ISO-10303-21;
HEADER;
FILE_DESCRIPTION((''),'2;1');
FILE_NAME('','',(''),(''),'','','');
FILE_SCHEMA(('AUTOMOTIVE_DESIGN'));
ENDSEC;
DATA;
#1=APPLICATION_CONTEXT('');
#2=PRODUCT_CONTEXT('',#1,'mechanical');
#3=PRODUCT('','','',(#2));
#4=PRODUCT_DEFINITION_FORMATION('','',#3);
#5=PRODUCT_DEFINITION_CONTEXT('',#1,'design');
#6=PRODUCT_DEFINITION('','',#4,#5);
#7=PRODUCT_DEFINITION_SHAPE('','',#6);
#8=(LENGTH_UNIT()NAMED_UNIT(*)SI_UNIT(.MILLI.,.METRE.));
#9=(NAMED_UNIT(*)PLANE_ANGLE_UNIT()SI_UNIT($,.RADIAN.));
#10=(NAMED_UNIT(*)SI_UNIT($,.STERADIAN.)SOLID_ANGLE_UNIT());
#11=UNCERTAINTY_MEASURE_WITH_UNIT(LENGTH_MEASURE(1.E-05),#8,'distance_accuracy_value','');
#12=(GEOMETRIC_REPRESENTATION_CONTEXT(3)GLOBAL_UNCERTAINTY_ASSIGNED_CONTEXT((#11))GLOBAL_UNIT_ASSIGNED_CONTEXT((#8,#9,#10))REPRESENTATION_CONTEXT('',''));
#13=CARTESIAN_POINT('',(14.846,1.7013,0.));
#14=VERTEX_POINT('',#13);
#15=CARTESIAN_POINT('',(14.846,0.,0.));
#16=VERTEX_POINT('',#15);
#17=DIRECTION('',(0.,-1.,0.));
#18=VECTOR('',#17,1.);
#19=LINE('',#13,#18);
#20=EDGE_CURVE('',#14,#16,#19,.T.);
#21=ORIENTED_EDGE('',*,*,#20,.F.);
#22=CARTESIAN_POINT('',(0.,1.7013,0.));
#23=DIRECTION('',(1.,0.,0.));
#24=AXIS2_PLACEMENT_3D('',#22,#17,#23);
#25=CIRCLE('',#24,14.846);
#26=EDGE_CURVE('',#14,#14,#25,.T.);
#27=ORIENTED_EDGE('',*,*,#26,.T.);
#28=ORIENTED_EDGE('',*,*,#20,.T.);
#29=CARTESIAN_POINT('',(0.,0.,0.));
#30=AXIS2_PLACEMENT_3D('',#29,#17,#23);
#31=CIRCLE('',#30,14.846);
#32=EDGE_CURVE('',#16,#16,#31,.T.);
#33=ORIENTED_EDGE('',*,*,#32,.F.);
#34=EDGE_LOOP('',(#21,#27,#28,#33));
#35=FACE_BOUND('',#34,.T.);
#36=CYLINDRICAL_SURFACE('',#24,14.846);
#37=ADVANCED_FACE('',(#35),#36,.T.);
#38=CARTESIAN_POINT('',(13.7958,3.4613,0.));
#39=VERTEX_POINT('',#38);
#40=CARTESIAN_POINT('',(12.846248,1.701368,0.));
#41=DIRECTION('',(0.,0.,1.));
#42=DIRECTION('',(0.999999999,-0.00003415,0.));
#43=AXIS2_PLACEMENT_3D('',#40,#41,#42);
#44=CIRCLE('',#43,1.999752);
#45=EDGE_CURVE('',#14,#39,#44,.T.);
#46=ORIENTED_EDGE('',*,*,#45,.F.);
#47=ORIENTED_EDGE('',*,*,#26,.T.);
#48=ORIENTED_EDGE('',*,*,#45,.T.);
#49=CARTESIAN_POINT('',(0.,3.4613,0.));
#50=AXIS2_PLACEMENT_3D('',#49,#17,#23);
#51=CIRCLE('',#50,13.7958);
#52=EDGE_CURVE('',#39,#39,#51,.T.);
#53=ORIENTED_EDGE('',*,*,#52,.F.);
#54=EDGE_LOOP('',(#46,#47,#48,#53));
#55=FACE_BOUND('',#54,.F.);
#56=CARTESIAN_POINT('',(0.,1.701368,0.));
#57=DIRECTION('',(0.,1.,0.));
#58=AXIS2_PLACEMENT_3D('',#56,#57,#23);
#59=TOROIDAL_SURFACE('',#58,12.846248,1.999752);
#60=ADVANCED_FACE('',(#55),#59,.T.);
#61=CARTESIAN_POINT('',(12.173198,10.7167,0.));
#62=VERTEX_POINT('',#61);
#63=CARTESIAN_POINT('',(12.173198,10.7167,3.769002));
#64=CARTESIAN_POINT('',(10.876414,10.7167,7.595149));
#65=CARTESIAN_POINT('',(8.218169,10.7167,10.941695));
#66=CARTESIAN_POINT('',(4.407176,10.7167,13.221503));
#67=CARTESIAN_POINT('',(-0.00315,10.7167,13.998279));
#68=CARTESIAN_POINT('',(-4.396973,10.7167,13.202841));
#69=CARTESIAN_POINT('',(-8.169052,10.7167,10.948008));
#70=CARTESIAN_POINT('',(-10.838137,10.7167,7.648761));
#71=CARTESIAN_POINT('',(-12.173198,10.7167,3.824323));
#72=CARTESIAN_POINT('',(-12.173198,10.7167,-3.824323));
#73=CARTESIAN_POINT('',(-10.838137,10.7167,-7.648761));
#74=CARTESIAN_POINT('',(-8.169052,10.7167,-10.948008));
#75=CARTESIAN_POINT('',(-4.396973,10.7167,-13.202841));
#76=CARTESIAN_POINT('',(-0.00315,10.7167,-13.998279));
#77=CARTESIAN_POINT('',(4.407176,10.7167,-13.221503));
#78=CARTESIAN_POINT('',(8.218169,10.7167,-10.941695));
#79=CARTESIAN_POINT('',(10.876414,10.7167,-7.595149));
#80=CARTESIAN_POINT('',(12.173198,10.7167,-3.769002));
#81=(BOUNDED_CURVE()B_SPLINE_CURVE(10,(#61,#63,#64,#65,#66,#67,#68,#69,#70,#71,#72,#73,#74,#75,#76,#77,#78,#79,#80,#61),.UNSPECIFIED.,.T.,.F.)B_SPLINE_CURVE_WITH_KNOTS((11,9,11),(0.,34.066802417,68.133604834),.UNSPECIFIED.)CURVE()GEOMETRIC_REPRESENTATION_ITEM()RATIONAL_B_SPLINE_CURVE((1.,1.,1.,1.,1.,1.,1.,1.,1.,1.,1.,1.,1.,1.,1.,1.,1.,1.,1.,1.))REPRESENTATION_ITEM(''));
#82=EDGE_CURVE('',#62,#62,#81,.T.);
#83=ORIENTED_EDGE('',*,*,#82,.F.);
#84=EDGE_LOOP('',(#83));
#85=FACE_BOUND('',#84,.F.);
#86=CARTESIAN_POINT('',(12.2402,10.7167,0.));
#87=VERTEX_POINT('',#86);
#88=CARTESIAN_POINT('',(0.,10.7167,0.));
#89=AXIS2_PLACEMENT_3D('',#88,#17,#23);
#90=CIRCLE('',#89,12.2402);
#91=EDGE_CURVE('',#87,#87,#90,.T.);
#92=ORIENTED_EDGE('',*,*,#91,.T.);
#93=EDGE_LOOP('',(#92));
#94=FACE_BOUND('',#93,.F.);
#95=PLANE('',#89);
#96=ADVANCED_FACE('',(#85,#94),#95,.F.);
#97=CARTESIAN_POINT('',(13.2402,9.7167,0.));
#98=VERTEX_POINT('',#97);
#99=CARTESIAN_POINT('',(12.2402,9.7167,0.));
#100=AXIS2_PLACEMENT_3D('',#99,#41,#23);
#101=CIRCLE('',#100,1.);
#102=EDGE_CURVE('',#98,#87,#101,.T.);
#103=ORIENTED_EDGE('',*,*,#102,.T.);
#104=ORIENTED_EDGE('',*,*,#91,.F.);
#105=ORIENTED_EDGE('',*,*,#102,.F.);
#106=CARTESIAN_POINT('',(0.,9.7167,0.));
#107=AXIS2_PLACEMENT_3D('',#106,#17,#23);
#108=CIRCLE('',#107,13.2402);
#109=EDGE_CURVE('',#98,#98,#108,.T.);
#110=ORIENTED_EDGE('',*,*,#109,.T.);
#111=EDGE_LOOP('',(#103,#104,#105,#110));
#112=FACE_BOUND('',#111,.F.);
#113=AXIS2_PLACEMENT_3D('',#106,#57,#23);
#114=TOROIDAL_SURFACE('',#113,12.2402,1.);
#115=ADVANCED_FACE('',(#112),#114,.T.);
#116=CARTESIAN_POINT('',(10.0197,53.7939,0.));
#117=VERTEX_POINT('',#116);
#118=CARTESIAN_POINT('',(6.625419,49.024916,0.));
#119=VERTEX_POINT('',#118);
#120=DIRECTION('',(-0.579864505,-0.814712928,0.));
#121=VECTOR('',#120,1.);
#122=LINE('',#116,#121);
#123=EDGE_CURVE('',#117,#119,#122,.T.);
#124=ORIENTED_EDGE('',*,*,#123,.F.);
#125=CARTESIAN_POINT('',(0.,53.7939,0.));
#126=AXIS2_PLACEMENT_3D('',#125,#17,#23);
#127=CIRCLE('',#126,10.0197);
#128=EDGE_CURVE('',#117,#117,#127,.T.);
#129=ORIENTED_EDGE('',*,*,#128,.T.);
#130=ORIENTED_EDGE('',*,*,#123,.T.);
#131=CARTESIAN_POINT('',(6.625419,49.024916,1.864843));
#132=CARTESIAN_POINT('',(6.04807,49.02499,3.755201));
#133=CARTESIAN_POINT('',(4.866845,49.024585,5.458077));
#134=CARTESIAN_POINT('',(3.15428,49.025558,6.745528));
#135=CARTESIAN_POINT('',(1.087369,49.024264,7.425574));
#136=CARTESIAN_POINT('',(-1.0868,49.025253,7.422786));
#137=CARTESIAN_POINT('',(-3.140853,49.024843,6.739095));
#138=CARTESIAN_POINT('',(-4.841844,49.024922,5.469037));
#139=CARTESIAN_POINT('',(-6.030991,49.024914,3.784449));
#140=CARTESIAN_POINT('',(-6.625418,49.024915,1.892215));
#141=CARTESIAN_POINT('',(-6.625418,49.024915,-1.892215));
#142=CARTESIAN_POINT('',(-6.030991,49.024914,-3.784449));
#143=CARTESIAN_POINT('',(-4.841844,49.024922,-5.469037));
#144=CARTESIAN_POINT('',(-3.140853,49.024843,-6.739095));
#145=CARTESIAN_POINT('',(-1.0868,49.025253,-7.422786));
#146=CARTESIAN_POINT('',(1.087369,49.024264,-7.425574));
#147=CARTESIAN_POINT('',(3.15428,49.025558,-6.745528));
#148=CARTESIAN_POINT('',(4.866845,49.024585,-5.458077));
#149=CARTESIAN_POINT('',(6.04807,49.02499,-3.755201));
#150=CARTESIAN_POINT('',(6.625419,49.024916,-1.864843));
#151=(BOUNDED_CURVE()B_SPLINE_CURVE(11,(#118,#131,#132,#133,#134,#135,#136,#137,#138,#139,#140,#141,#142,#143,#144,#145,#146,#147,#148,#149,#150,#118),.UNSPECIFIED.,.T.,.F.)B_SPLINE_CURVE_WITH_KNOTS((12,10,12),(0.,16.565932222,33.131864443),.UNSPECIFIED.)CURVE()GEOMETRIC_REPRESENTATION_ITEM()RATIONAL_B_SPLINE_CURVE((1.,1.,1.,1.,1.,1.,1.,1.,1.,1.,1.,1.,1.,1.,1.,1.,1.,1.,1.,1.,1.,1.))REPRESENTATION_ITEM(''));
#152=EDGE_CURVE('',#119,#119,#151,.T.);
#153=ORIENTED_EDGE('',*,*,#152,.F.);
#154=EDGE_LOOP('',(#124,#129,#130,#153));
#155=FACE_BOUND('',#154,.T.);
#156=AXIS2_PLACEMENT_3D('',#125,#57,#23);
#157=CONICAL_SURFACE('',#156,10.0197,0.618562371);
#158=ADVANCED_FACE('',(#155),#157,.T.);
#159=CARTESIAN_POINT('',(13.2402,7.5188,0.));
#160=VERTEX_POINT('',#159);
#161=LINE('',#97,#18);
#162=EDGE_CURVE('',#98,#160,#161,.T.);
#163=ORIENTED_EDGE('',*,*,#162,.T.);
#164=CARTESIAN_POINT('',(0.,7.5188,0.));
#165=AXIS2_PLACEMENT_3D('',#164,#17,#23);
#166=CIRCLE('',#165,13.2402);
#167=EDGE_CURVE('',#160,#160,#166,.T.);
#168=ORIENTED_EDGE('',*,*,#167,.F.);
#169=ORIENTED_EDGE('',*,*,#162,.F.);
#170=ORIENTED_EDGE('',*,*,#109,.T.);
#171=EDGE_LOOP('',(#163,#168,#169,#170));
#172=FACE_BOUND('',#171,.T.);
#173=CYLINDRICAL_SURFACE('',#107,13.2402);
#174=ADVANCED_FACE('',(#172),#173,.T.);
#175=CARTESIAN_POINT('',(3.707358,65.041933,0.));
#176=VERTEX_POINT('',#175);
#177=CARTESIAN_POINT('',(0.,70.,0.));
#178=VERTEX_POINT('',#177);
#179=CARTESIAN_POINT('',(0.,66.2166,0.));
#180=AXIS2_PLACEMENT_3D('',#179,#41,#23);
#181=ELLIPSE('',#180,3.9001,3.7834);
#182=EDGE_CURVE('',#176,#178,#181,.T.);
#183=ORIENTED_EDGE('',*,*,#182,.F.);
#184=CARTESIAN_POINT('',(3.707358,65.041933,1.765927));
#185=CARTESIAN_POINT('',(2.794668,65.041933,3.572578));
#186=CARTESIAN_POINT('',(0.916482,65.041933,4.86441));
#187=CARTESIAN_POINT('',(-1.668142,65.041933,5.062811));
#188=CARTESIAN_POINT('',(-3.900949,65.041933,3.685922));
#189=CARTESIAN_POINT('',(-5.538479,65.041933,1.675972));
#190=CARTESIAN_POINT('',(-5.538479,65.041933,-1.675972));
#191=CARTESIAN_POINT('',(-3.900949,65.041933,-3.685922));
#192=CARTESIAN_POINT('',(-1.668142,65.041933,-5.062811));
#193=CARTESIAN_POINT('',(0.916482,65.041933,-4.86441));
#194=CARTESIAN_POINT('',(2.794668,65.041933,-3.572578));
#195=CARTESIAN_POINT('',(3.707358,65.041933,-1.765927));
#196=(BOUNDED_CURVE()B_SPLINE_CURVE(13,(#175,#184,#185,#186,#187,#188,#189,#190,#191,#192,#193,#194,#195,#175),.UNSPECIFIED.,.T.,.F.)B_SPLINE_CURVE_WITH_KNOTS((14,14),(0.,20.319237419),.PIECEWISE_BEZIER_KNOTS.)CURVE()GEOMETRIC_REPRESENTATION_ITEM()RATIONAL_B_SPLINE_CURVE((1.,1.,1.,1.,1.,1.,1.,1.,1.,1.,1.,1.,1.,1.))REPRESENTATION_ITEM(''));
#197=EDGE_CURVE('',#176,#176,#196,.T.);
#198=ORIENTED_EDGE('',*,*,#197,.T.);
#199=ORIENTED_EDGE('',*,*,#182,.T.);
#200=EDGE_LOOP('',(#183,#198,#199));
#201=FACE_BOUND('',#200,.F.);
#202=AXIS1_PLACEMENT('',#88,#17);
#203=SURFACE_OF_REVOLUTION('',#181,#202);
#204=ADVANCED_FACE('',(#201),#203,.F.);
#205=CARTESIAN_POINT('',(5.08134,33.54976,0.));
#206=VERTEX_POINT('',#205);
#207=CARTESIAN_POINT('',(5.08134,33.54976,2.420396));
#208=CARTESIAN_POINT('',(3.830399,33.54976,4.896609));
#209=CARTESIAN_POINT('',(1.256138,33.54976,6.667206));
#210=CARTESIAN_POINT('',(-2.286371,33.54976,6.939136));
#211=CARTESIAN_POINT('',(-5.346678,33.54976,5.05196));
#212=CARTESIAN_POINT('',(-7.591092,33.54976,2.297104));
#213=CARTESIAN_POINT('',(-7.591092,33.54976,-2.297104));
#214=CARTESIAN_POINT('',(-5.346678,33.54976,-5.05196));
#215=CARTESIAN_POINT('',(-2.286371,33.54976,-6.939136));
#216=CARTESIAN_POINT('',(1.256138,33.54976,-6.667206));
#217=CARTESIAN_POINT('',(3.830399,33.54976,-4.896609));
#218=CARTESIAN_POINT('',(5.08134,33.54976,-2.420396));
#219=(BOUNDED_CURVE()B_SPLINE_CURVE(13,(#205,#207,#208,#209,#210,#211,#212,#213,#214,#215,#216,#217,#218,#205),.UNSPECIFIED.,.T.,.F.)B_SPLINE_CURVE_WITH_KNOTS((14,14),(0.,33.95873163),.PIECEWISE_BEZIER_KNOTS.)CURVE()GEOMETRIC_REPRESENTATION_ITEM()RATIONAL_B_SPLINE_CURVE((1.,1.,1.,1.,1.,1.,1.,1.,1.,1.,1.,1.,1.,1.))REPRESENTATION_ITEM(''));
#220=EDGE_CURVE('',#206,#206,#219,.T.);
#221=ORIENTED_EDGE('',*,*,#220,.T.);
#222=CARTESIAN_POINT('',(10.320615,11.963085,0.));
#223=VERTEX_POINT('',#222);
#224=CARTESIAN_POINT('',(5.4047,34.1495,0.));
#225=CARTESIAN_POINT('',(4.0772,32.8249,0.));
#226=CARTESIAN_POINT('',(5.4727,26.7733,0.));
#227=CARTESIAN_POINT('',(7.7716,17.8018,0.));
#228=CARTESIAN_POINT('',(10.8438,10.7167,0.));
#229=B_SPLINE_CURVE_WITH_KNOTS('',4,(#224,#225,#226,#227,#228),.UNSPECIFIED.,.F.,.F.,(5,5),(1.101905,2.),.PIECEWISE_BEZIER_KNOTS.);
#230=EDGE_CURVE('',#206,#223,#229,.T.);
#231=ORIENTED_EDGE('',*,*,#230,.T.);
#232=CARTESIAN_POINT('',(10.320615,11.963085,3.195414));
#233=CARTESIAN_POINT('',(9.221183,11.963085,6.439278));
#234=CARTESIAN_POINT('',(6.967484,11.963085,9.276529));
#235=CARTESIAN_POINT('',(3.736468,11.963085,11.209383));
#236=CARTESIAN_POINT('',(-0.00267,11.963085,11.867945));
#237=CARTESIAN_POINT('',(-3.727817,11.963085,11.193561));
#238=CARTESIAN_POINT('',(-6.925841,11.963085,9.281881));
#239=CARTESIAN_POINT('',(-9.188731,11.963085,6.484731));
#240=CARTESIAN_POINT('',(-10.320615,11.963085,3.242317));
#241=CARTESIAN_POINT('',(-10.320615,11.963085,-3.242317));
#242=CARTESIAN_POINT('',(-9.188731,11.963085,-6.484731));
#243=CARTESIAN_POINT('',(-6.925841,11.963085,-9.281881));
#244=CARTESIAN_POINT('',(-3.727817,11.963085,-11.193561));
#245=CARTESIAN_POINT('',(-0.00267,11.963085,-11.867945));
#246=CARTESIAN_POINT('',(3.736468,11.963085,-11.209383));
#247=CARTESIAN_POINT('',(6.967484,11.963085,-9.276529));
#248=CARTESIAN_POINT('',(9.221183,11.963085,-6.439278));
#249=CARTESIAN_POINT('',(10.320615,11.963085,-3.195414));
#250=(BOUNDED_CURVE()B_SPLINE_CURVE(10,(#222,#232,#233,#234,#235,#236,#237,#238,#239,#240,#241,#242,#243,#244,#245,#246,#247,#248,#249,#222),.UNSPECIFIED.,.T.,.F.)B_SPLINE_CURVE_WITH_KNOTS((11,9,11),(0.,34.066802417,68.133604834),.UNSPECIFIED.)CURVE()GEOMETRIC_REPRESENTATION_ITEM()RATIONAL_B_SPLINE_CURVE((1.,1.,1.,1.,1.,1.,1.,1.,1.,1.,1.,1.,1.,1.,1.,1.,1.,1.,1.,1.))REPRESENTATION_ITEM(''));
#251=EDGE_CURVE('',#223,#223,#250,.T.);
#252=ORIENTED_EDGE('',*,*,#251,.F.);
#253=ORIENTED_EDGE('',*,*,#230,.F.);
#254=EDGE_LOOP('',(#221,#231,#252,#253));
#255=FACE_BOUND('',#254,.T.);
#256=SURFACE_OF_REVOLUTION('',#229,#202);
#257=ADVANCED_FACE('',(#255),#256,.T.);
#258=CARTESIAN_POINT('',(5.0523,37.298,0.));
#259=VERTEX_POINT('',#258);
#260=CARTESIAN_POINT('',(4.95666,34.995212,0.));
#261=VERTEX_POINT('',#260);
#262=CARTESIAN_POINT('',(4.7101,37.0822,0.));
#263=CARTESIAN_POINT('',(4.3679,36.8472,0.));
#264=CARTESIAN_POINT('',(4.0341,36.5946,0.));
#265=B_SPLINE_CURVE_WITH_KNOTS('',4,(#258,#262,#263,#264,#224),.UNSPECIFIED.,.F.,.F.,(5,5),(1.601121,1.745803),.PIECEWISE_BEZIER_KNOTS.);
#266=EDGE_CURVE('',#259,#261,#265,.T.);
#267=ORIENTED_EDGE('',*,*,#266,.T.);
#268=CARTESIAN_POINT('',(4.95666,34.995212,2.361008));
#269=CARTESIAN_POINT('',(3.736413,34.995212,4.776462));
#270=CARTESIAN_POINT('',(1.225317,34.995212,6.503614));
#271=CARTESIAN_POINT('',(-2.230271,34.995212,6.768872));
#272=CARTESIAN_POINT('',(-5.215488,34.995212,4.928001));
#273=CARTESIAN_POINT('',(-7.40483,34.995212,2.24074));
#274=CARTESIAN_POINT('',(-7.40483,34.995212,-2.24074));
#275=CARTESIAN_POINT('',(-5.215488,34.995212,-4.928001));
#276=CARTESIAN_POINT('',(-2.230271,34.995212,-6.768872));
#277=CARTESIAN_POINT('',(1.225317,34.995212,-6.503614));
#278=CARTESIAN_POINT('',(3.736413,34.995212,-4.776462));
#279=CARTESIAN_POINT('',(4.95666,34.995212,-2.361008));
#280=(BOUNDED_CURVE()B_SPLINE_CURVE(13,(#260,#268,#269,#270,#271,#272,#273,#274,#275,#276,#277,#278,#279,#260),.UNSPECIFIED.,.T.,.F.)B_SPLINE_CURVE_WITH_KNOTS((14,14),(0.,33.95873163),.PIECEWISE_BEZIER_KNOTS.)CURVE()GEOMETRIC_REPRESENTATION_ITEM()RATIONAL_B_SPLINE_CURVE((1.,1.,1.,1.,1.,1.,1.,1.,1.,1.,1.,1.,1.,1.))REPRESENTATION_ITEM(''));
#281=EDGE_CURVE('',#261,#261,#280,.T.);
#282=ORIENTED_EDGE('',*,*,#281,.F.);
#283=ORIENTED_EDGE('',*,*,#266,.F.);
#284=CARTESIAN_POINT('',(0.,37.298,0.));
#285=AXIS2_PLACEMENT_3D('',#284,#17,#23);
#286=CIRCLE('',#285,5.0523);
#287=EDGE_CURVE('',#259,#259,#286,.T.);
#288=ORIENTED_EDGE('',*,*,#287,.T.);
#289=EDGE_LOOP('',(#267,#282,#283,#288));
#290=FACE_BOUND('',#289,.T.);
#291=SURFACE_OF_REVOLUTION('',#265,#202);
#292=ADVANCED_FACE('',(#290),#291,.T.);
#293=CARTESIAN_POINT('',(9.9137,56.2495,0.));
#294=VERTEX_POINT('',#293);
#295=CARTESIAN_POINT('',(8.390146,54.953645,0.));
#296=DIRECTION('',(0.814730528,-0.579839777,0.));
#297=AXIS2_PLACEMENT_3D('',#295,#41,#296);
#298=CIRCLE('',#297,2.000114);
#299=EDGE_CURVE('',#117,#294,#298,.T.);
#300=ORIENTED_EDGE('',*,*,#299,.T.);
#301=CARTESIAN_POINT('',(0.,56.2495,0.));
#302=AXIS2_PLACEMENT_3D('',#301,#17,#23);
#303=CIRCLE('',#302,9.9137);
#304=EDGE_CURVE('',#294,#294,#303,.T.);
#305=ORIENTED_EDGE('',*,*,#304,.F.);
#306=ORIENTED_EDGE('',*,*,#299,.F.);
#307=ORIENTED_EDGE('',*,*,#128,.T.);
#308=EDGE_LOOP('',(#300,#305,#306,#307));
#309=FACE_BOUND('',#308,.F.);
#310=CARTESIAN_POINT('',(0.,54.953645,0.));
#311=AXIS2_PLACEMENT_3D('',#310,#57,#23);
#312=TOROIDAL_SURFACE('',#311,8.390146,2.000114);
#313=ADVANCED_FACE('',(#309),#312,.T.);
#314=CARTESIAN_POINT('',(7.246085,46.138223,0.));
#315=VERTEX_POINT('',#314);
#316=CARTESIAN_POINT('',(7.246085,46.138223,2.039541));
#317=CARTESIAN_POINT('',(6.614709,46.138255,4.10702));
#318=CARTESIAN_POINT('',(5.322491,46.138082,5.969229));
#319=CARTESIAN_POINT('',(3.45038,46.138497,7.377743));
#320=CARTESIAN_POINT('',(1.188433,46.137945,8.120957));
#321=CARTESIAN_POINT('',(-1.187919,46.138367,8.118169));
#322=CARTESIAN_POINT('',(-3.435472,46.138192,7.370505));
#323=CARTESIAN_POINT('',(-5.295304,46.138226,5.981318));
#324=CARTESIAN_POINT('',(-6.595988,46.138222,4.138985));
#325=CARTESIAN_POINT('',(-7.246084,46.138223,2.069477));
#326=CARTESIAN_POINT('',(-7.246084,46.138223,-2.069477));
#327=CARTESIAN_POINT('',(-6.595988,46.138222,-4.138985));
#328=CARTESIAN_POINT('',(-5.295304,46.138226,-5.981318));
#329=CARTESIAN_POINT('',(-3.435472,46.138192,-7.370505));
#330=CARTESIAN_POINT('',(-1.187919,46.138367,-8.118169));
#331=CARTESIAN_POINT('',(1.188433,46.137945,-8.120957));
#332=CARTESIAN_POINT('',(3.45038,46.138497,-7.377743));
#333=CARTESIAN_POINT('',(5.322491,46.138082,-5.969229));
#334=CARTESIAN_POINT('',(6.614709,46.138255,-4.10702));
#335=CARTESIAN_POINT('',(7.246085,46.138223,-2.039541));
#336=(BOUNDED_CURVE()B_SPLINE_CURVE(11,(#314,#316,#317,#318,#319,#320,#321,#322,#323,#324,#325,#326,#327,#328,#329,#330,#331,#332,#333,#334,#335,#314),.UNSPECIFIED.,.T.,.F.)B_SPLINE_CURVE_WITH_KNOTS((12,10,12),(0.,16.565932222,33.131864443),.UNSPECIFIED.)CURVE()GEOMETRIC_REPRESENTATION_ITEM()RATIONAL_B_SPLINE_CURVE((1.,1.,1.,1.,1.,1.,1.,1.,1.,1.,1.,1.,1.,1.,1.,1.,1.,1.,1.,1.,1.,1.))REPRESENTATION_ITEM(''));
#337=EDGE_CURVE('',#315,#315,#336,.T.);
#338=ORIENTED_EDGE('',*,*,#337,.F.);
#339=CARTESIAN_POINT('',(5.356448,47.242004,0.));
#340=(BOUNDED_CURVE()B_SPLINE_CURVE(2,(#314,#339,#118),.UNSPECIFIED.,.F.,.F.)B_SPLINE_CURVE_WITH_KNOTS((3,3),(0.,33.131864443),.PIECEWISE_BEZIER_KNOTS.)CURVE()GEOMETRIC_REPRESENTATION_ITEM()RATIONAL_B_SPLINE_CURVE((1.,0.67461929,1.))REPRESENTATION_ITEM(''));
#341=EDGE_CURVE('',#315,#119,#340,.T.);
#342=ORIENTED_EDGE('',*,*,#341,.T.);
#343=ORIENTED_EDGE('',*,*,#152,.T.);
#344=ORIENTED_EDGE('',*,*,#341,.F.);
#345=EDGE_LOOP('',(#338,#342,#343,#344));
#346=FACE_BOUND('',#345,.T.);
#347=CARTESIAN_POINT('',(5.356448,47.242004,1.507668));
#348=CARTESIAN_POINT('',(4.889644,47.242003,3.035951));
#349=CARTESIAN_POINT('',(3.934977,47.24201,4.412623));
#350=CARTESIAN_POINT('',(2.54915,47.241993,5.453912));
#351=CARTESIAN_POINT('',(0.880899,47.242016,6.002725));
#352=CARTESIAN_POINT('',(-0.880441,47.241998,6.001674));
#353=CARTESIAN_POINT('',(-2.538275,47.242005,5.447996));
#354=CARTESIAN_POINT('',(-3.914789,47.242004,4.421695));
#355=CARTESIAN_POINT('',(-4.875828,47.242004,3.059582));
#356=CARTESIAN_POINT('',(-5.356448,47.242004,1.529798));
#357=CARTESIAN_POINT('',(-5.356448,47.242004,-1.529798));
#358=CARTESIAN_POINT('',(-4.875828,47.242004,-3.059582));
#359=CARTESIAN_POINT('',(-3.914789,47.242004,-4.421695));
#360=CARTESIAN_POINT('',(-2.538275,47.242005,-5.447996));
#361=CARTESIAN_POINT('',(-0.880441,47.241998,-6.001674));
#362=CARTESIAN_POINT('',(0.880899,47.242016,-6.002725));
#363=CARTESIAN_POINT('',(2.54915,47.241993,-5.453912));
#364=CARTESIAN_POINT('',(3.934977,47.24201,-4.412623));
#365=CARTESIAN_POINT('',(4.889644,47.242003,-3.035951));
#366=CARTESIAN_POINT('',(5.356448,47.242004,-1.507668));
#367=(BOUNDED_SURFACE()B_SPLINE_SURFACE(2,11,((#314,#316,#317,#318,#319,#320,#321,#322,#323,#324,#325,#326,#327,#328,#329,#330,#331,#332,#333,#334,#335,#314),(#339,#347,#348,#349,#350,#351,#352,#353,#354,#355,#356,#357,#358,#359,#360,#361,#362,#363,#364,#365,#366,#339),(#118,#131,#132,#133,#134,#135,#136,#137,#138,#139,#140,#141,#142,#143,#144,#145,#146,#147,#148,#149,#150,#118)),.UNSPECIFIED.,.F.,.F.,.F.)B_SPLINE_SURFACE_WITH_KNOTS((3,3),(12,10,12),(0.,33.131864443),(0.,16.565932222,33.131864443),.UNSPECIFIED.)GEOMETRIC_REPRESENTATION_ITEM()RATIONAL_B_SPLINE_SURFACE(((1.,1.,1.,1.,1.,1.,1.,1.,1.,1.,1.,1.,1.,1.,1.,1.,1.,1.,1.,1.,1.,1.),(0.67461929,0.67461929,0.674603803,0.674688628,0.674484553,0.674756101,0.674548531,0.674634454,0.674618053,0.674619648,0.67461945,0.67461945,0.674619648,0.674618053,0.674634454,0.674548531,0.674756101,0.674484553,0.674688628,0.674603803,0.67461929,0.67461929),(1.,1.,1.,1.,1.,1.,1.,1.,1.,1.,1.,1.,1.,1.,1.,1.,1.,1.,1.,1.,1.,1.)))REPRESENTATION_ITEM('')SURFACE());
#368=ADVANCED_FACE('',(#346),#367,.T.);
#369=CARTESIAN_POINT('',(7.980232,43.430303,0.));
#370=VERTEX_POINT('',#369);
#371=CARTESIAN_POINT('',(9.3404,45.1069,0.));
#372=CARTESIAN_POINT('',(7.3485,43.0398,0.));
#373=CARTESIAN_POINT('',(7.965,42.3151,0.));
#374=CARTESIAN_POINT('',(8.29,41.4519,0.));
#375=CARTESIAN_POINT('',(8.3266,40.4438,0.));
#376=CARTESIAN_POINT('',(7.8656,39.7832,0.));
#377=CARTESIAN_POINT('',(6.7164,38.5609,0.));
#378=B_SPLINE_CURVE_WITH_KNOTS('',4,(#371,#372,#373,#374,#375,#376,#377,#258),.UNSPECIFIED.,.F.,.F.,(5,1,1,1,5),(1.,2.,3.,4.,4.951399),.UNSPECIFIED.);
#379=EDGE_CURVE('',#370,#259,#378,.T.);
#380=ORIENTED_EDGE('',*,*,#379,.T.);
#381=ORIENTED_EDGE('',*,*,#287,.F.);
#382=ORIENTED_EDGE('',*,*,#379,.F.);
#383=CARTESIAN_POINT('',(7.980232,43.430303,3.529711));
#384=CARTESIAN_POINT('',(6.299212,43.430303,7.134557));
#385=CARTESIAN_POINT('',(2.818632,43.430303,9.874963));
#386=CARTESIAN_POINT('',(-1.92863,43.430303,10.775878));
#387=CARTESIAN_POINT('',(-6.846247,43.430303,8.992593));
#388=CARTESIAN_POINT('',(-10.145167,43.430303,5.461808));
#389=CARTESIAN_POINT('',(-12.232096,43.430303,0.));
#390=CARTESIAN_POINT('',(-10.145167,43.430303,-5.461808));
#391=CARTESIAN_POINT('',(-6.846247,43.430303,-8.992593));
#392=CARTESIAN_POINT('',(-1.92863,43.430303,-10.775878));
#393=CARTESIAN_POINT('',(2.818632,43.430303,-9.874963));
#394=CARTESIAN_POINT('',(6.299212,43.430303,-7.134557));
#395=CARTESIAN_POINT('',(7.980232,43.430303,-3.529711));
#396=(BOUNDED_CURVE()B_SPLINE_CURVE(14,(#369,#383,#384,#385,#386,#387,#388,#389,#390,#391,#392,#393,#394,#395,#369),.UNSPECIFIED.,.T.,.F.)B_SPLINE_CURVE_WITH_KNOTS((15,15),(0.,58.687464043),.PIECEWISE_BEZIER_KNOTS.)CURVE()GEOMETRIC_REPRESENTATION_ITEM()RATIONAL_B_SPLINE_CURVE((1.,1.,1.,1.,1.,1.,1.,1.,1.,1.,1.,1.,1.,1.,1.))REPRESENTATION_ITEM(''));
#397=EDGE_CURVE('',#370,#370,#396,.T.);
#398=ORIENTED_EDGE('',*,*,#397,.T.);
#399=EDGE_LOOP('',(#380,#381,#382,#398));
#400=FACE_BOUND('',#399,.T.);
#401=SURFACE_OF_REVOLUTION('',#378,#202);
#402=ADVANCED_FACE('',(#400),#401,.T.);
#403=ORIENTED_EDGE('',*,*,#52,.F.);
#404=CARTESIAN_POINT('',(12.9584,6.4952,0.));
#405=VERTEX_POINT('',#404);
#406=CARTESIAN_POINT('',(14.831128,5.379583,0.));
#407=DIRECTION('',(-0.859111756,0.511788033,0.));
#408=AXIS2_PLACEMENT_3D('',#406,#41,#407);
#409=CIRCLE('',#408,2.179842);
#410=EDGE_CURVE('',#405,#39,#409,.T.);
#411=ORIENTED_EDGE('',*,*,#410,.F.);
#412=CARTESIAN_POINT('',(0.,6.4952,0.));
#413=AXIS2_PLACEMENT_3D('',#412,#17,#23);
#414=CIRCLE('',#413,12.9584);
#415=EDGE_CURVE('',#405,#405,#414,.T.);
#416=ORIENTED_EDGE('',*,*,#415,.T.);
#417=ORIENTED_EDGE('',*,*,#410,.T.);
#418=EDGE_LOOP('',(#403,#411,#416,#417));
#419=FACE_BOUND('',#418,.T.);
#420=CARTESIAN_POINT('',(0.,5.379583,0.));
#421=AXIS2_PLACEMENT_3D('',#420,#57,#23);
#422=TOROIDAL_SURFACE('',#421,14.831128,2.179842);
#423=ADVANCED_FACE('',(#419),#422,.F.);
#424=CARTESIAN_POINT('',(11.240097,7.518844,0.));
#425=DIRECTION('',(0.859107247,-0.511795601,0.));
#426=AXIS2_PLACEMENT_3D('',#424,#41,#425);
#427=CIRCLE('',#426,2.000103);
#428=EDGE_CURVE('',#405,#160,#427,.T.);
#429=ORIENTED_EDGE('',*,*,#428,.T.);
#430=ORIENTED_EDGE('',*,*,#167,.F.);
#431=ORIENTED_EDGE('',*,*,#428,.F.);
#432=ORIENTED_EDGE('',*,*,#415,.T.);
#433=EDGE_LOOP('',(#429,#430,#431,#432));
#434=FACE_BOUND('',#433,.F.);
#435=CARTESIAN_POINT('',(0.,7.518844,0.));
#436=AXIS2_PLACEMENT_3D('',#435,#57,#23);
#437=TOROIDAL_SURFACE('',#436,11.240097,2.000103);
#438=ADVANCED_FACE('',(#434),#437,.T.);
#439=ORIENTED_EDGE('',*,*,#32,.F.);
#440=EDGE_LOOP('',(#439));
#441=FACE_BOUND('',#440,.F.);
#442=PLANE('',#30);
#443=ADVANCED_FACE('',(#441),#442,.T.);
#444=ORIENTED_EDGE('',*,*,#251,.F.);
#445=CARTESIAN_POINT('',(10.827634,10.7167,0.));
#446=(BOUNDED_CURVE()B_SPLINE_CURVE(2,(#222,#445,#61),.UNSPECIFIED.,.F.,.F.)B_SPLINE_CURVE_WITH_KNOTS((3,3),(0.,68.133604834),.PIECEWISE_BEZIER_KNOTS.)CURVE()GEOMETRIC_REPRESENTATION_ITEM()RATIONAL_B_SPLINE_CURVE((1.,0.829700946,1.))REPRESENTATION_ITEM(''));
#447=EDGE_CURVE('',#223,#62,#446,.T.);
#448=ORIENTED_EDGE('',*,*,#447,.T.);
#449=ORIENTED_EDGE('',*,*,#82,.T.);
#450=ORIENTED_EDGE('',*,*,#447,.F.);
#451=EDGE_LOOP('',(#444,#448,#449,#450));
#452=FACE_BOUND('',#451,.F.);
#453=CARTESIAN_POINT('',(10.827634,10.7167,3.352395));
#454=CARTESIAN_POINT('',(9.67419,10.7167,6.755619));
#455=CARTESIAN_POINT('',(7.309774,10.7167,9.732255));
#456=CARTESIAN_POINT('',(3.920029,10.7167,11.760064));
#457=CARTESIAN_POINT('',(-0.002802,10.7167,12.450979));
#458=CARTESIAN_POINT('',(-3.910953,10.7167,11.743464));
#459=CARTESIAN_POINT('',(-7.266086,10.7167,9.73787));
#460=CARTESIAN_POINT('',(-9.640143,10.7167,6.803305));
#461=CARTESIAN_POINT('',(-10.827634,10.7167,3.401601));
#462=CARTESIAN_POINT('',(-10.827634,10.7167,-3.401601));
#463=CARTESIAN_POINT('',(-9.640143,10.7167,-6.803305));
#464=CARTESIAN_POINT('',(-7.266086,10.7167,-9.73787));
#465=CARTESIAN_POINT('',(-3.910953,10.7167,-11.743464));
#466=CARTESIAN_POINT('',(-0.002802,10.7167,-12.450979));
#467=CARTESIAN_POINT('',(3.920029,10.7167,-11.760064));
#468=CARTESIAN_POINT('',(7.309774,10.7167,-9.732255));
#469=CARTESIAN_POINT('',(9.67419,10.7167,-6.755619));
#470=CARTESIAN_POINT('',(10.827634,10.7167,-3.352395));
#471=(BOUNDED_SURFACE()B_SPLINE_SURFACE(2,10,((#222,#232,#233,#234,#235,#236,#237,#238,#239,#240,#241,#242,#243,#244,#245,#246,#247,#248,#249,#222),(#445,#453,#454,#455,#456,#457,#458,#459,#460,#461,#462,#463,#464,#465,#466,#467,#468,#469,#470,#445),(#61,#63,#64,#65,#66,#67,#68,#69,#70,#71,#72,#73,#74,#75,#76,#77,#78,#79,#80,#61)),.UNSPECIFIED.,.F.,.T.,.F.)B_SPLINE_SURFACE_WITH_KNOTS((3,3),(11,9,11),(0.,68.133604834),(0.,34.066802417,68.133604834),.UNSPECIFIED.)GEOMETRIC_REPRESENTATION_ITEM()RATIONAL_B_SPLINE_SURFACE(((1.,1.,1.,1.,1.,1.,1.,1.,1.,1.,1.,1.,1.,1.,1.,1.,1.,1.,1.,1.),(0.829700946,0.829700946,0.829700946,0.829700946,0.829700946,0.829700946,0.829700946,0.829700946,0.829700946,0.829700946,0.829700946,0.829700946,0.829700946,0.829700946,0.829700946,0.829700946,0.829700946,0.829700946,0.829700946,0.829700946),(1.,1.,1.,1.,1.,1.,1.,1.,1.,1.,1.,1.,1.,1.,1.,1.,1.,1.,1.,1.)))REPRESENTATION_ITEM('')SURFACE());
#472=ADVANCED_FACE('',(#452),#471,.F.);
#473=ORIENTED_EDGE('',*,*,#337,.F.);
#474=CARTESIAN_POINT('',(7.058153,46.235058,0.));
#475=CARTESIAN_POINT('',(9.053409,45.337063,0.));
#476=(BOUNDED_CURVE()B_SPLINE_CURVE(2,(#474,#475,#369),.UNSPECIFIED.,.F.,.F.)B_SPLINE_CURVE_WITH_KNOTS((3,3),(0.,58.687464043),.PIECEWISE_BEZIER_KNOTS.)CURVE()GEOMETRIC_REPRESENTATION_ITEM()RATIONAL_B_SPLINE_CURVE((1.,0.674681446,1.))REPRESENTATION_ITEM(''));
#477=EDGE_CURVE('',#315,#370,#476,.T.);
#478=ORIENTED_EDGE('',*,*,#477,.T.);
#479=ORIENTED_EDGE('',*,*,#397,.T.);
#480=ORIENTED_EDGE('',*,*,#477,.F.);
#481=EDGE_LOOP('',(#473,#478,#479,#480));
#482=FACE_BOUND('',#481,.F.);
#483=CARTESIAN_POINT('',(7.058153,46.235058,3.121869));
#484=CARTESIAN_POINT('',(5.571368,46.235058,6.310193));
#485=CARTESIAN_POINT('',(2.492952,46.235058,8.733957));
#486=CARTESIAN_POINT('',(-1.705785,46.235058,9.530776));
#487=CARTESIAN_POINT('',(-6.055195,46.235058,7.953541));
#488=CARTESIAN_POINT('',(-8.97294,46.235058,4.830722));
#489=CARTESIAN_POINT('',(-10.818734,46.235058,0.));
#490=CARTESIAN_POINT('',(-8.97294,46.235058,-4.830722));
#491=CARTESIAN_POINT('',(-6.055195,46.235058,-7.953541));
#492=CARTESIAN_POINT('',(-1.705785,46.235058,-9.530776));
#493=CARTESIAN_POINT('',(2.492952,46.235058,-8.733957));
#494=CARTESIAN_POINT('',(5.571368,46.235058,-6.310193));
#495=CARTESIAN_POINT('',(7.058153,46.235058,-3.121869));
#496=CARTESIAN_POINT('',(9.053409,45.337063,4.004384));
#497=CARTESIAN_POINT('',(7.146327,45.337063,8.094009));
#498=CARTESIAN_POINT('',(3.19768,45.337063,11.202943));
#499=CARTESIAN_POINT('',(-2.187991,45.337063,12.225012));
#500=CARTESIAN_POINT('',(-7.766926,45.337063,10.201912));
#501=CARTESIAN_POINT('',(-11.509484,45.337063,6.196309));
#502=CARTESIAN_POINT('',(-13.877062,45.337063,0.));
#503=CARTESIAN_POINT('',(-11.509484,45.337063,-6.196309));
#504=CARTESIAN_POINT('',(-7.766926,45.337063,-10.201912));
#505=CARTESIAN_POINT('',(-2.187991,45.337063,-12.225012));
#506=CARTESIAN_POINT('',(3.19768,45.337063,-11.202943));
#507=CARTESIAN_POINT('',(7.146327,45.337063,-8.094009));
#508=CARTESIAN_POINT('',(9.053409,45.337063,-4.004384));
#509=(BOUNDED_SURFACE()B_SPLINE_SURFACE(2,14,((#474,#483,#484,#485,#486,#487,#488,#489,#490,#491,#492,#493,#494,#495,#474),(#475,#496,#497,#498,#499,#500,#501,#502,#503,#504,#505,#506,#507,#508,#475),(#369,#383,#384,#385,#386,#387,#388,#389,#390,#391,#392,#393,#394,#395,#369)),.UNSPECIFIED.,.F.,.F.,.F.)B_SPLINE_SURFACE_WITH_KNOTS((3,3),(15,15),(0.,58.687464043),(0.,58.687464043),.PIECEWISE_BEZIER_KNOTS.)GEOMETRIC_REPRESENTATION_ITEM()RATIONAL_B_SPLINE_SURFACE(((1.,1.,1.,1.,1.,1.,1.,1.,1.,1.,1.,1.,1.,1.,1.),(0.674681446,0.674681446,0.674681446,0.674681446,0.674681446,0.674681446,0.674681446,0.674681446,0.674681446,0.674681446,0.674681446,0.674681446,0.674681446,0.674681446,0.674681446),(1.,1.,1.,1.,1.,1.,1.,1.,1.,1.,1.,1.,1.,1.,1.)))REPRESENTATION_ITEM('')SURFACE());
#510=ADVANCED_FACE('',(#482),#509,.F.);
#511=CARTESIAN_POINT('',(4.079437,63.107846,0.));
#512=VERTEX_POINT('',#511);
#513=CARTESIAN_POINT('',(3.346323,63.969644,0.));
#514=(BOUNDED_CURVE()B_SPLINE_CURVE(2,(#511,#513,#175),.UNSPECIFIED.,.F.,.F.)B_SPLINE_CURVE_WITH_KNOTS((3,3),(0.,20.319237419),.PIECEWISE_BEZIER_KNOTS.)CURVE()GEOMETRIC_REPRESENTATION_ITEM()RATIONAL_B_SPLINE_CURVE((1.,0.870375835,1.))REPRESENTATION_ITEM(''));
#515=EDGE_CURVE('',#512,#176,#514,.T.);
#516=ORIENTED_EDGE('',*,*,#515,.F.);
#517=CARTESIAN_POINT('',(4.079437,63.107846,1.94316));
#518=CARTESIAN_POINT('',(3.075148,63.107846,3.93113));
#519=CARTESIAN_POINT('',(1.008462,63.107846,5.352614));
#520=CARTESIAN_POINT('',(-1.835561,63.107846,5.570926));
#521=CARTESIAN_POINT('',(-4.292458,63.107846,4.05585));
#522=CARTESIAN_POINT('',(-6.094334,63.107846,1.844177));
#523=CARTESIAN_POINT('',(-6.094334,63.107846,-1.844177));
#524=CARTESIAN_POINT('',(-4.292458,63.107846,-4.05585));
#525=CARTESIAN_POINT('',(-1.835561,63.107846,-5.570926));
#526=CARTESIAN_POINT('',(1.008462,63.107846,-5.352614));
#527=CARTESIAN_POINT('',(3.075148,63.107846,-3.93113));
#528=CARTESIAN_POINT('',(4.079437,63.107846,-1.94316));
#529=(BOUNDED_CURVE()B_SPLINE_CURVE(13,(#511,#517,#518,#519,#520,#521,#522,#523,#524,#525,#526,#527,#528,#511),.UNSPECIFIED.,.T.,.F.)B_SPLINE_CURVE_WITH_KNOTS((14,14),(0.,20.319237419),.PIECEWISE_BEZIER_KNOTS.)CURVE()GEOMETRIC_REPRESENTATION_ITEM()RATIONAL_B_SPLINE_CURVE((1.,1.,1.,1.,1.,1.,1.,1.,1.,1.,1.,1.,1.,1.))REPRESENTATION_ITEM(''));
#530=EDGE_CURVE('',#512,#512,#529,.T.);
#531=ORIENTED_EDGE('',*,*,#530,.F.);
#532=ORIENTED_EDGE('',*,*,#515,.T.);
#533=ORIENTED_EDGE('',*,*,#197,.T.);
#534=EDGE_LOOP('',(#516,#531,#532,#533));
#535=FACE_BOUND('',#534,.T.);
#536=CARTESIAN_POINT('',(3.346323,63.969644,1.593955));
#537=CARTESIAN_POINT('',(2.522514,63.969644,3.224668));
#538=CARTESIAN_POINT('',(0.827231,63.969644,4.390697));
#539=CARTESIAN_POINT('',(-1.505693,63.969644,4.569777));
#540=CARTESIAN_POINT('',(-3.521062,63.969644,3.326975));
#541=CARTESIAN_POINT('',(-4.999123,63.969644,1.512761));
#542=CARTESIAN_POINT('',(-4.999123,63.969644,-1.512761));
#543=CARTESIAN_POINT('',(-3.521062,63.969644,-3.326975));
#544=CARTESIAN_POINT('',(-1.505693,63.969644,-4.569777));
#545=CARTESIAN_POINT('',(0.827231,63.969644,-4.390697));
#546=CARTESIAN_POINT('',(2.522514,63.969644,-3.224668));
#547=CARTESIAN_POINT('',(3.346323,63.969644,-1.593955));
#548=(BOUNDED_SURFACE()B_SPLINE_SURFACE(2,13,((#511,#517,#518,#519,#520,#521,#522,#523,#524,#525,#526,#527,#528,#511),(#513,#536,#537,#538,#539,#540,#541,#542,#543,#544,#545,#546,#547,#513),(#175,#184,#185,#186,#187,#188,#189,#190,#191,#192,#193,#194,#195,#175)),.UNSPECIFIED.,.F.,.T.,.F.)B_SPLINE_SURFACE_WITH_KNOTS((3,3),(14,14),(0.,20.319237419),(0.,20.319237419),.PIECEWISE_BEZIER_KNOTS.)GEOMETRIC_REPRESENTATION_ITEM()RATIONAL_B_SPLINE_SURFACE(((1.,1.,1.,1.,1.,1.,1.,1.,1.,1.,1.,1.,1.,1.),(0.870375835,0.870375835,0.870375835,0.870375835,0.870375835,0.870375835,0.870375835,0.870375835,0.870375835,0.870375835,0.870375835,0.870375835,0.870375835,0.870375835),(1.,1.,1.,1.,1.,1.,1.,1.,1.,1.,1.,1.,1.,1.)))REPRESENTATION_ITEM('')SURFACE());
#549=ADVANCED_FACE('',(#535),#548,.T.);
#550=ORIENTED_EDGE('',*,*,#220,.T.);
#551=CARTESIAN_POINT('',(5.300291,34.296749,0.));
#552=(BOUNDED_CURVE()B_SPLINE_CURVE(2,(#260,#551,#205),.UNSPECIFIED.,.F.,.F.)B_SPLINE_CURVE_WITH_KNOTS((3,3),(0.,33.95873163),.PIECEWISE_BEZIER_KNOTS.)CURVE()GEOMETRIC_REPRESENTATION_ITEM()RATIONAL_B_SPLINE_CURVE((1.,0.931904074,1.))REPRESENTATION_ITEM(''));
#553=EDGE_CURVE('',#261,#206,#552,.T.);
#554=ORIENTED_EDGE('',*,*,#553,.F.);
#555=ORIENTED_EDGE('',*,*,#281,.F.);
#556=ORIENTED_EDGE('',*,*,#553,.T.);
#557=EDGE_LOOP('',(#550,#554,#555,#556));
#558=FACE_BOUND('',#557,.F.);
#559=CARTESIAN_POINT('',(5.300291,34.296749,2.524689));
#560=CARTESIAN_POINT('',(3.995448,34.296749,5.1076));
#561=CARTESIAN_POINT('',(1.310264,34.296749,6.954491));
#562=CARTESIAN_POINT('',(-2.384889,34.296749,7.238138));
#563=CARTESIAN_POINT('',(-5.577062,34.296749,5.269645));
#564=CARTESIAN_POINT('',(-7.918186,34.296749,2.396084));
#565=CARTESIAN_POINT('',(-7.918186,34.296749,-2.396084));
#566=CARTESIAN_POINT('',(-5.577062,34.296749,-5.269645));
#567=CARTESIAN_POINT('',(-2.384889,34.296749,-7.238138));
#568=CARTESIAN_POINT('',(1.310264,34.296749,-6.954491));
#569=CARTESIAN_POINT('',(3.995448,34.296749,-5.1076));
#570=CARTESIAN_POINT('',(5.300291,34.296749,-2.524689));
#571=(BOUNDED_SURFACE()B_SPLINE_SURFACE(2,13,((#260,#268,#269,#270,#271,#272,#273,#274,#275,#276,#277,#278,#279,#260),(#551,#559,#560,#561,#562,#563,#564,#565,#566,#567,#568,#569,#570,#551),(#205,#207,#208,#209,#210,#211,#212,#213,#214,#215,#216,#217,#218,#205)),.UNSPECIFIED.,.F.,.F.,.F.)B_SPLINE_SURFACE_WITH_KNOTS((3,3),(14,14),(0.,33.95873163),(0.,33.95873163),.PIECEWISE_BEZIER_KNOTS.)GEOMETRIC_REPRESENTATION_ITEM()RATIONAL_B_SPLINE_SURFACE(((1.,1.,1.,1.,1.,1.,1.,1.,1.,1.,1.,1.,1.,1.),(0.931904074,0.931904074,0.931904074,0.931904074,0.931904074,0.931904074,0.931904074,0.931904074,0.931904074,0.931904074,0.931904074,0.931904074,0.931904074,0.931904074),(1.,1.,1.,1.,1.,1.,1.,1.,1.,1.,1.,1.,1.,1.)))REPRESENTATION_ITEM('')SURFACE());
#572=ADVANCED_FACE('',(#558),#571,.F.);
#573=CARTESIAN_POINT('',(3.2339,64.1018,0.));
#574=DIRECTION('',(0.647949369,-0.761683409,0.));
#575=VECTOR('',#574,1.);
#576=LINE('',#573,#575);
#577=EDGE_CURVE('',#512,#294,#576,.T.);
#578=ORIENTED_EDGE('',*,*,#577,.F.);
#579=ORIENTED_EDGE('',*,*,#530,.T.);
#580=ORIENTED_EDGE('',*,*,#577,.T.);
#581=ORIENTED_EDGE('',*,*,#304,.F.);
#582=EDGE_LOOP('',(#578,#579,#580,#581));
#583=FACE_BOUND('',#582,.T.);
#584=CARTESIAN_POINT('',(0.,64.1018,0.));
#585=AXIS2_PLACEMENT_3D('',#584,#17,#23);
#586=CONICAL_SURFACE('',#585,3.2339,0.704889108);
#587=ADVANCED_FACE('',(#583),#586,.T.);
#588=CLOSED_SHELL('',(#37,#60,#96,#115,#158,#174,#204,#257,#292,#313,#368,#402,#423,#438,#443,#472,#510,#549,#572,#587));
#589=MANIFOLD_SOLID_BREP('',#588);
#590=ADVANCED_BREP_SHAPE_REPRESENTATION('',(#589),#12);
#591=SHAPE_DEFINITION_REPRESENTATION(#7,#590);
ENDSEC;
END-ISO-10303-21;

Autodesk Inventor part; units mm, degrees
ref_plane "YZ Plane" through (0, 0, 0) normal (1, 0, 0) x (0, 1, 0)
ref_plane "XZ Plane" through (0, 0, 0) normal (0, 1, 0) x (-1, 0, 0)
ref_plane "XY Plane" through (0, 0, 0) normal (0, 0, 1) x (1, 0, 0)
sketch "Sketch1" plane through (0, 0, 0) normal (0, 0, 1) x (1, 0, 0)
  line L0 (0, 10.7167) -> (0, 0)
  line L1 (0, 0) -> (14.846, 0)
  arc A0 (12.9584, 6.4952) -> (13.7958, 3.4613) centre (14.831, 5.3796) ccw
  line L2 (13.2402, 9.7167) -> (13.2402, 7.5188)
  line L3 (14.846, 1.7013) -> (14.846, 0)
  arc A1 (12.9584, 6.4952) -> (13.2402, 7.5188) centre (11.2402, 7.5188) ccw
  arc A2 (14.846, 1.7013) -> (13.7958, 3.4613) centre (12.846, 1.7013) ccw
  arc A3 (13.2402, 9.7167) -> (12.2402, 10.7167) centre (12.2402, 9.7167) ccw
  line L4 (0, 0) -> (0, 10.7167)
  line L5 (12.2402, 10.7167) -> (10.8438, 10.7167)
  line L6 (0, 0) -> (0, 70)
  ellipse E0 centre (0, 66.2166) end of major axis (3.9001, 66.2166) minor radius 3.7834 (3.2339, 64.1018) -> (0, 70) ccw
  line L7 (3.2339, 64.1018) -> (9.9137, 56.2495)
  line L8 (10.0197, 53.7939) -> (5.2731, 47.1249)
  spline S0 degree 4 poles (5.2731, 47.1249) (5.8904, 46.7247) (6.8309, 46.3442) (8.0883, 45.8027) (9.177, 45.2019) (9.3404, 45.1069) knots 1.249031 1.249031 1.249031 1.249031 1.249031 2 2.137857 2.137857 2.137857 2.137857 2.137857
  spline S1 degree 4 poles (5.0523, 37.298) (4.7101, 37.0822) (4.3679, 36.8472) (4.0341, 36.5946) (5.4047, 34.1495) knots 1.601121 1.601121 1.601121 1.601121 1.601121 1.745803 1.745803 1.745803 1.745803 1.745803
  line L9 (5.2731, 47.1249) -> (5.8904, 46.7247) construction
  line L10 (5.8904, 46.7247) -> (6.8309, 46.3442) construction
  arc A4 (10.0197, 53.7939) -> (9.9137, 56.2495) centre (8.3903, 54.9536) ccw
  line L11 (9.3404, 45.1069) -> (7.3485, 43.0398) construction
  line L12 (7.3485, 43.0398) -> (7.965, 42.3151) construction
  line L13 (7.965, 42.3151) -> (8.29, 41.4519) construction
  line L14 (8.29, 41.4519) -> (8.3266, 40.4438) construction
  spline S2 degree 4 poles (9.3404, 45.1069) (7.3485, 43.0398) (7.965, 42.3151) (8.29, 41.4519) (8.3266, 40.4438) (7.8656, 39.7832) (6.7164, 38.5609) (5.0523, 37.298) knots 1 1 1 1 1 2 3 4 4.951399 4.951399 4.951399 4.951399 4.951399
  line L15 (8.3266, 40.4438) -> (7.8656, 39.7832) construction
  line L16 (7.8656, 39.7832) -> (6.7164, 38.5609) construction
  line L17 (6.7164, 38.5609) -> (5.0523, 37.298) construction
  line L18 (5.0523, 37.298) -> (4.7101, 37.0822) construction
  line L19 (6.8309, 46.3442) -> (8.0883, 45.8027) construction
  line L20 (8.0883, 45.8027) -> (9.177, 45.2019) construction
  line L21 (9.177, 45.2019) -> (9.3404, 45.1069) construction
  line L22 (7.7716, 17.8018) -> (10.8438, 10.7167) construction
  spline S3 degree 4 poles (5.4047, 34.1495) (4.0772, 32.8249) (5.4727, 26.7733) (7.7716, 17.8018) (10.8438, 10.7167) knots 1.101905 1.101905 1.101905 1.101905 1.101905 2 2 2 2 2
  line L23 (5.4047, 34.1495) -> (4.0772, 32.8249) construction
  line L24 (4.0772, 32.8249) -> (5.4727, 26.7733) construction
  line L25 (5.4727, 26.7733) -> (7.7716, 17.8018) construction
  line L26 (4.7101, 37.0822) -> (4.3679, 36.8472) construction
  line L27 (4.3679, 36.8472) -> (4.0341, 36.5946) construction
  line L28 (4.0341, 36.5946) -> (5.4047, 34.1495) construction
  point P0 (14.846, 3.1999)
  point P1 (13.2402, 6.8697)
  dimension "d11" = 2
  dimension "d13" = 1
  dimension "d34" = 70
  dimension "d35" = 2
revolve "Revolution1" add sketch "Sketch1" angle 360 about axis through (0, 10.7167, 0) along (0, -1, 0)
fillet "Fillet3" radius 2 3 edges at (-9.3404, 45.1069, 0) (-5.4047, 34.1495, 0) (-5.2731, 47.1249, 0)
fillet "Fillet4" radius 2 1 edges at (-10.8438, 10.7167, 0)
fillet "Fillet5" radius 2 1 edges at (-3.2339, 64.1018, 0)
properties part number "Bishop"
